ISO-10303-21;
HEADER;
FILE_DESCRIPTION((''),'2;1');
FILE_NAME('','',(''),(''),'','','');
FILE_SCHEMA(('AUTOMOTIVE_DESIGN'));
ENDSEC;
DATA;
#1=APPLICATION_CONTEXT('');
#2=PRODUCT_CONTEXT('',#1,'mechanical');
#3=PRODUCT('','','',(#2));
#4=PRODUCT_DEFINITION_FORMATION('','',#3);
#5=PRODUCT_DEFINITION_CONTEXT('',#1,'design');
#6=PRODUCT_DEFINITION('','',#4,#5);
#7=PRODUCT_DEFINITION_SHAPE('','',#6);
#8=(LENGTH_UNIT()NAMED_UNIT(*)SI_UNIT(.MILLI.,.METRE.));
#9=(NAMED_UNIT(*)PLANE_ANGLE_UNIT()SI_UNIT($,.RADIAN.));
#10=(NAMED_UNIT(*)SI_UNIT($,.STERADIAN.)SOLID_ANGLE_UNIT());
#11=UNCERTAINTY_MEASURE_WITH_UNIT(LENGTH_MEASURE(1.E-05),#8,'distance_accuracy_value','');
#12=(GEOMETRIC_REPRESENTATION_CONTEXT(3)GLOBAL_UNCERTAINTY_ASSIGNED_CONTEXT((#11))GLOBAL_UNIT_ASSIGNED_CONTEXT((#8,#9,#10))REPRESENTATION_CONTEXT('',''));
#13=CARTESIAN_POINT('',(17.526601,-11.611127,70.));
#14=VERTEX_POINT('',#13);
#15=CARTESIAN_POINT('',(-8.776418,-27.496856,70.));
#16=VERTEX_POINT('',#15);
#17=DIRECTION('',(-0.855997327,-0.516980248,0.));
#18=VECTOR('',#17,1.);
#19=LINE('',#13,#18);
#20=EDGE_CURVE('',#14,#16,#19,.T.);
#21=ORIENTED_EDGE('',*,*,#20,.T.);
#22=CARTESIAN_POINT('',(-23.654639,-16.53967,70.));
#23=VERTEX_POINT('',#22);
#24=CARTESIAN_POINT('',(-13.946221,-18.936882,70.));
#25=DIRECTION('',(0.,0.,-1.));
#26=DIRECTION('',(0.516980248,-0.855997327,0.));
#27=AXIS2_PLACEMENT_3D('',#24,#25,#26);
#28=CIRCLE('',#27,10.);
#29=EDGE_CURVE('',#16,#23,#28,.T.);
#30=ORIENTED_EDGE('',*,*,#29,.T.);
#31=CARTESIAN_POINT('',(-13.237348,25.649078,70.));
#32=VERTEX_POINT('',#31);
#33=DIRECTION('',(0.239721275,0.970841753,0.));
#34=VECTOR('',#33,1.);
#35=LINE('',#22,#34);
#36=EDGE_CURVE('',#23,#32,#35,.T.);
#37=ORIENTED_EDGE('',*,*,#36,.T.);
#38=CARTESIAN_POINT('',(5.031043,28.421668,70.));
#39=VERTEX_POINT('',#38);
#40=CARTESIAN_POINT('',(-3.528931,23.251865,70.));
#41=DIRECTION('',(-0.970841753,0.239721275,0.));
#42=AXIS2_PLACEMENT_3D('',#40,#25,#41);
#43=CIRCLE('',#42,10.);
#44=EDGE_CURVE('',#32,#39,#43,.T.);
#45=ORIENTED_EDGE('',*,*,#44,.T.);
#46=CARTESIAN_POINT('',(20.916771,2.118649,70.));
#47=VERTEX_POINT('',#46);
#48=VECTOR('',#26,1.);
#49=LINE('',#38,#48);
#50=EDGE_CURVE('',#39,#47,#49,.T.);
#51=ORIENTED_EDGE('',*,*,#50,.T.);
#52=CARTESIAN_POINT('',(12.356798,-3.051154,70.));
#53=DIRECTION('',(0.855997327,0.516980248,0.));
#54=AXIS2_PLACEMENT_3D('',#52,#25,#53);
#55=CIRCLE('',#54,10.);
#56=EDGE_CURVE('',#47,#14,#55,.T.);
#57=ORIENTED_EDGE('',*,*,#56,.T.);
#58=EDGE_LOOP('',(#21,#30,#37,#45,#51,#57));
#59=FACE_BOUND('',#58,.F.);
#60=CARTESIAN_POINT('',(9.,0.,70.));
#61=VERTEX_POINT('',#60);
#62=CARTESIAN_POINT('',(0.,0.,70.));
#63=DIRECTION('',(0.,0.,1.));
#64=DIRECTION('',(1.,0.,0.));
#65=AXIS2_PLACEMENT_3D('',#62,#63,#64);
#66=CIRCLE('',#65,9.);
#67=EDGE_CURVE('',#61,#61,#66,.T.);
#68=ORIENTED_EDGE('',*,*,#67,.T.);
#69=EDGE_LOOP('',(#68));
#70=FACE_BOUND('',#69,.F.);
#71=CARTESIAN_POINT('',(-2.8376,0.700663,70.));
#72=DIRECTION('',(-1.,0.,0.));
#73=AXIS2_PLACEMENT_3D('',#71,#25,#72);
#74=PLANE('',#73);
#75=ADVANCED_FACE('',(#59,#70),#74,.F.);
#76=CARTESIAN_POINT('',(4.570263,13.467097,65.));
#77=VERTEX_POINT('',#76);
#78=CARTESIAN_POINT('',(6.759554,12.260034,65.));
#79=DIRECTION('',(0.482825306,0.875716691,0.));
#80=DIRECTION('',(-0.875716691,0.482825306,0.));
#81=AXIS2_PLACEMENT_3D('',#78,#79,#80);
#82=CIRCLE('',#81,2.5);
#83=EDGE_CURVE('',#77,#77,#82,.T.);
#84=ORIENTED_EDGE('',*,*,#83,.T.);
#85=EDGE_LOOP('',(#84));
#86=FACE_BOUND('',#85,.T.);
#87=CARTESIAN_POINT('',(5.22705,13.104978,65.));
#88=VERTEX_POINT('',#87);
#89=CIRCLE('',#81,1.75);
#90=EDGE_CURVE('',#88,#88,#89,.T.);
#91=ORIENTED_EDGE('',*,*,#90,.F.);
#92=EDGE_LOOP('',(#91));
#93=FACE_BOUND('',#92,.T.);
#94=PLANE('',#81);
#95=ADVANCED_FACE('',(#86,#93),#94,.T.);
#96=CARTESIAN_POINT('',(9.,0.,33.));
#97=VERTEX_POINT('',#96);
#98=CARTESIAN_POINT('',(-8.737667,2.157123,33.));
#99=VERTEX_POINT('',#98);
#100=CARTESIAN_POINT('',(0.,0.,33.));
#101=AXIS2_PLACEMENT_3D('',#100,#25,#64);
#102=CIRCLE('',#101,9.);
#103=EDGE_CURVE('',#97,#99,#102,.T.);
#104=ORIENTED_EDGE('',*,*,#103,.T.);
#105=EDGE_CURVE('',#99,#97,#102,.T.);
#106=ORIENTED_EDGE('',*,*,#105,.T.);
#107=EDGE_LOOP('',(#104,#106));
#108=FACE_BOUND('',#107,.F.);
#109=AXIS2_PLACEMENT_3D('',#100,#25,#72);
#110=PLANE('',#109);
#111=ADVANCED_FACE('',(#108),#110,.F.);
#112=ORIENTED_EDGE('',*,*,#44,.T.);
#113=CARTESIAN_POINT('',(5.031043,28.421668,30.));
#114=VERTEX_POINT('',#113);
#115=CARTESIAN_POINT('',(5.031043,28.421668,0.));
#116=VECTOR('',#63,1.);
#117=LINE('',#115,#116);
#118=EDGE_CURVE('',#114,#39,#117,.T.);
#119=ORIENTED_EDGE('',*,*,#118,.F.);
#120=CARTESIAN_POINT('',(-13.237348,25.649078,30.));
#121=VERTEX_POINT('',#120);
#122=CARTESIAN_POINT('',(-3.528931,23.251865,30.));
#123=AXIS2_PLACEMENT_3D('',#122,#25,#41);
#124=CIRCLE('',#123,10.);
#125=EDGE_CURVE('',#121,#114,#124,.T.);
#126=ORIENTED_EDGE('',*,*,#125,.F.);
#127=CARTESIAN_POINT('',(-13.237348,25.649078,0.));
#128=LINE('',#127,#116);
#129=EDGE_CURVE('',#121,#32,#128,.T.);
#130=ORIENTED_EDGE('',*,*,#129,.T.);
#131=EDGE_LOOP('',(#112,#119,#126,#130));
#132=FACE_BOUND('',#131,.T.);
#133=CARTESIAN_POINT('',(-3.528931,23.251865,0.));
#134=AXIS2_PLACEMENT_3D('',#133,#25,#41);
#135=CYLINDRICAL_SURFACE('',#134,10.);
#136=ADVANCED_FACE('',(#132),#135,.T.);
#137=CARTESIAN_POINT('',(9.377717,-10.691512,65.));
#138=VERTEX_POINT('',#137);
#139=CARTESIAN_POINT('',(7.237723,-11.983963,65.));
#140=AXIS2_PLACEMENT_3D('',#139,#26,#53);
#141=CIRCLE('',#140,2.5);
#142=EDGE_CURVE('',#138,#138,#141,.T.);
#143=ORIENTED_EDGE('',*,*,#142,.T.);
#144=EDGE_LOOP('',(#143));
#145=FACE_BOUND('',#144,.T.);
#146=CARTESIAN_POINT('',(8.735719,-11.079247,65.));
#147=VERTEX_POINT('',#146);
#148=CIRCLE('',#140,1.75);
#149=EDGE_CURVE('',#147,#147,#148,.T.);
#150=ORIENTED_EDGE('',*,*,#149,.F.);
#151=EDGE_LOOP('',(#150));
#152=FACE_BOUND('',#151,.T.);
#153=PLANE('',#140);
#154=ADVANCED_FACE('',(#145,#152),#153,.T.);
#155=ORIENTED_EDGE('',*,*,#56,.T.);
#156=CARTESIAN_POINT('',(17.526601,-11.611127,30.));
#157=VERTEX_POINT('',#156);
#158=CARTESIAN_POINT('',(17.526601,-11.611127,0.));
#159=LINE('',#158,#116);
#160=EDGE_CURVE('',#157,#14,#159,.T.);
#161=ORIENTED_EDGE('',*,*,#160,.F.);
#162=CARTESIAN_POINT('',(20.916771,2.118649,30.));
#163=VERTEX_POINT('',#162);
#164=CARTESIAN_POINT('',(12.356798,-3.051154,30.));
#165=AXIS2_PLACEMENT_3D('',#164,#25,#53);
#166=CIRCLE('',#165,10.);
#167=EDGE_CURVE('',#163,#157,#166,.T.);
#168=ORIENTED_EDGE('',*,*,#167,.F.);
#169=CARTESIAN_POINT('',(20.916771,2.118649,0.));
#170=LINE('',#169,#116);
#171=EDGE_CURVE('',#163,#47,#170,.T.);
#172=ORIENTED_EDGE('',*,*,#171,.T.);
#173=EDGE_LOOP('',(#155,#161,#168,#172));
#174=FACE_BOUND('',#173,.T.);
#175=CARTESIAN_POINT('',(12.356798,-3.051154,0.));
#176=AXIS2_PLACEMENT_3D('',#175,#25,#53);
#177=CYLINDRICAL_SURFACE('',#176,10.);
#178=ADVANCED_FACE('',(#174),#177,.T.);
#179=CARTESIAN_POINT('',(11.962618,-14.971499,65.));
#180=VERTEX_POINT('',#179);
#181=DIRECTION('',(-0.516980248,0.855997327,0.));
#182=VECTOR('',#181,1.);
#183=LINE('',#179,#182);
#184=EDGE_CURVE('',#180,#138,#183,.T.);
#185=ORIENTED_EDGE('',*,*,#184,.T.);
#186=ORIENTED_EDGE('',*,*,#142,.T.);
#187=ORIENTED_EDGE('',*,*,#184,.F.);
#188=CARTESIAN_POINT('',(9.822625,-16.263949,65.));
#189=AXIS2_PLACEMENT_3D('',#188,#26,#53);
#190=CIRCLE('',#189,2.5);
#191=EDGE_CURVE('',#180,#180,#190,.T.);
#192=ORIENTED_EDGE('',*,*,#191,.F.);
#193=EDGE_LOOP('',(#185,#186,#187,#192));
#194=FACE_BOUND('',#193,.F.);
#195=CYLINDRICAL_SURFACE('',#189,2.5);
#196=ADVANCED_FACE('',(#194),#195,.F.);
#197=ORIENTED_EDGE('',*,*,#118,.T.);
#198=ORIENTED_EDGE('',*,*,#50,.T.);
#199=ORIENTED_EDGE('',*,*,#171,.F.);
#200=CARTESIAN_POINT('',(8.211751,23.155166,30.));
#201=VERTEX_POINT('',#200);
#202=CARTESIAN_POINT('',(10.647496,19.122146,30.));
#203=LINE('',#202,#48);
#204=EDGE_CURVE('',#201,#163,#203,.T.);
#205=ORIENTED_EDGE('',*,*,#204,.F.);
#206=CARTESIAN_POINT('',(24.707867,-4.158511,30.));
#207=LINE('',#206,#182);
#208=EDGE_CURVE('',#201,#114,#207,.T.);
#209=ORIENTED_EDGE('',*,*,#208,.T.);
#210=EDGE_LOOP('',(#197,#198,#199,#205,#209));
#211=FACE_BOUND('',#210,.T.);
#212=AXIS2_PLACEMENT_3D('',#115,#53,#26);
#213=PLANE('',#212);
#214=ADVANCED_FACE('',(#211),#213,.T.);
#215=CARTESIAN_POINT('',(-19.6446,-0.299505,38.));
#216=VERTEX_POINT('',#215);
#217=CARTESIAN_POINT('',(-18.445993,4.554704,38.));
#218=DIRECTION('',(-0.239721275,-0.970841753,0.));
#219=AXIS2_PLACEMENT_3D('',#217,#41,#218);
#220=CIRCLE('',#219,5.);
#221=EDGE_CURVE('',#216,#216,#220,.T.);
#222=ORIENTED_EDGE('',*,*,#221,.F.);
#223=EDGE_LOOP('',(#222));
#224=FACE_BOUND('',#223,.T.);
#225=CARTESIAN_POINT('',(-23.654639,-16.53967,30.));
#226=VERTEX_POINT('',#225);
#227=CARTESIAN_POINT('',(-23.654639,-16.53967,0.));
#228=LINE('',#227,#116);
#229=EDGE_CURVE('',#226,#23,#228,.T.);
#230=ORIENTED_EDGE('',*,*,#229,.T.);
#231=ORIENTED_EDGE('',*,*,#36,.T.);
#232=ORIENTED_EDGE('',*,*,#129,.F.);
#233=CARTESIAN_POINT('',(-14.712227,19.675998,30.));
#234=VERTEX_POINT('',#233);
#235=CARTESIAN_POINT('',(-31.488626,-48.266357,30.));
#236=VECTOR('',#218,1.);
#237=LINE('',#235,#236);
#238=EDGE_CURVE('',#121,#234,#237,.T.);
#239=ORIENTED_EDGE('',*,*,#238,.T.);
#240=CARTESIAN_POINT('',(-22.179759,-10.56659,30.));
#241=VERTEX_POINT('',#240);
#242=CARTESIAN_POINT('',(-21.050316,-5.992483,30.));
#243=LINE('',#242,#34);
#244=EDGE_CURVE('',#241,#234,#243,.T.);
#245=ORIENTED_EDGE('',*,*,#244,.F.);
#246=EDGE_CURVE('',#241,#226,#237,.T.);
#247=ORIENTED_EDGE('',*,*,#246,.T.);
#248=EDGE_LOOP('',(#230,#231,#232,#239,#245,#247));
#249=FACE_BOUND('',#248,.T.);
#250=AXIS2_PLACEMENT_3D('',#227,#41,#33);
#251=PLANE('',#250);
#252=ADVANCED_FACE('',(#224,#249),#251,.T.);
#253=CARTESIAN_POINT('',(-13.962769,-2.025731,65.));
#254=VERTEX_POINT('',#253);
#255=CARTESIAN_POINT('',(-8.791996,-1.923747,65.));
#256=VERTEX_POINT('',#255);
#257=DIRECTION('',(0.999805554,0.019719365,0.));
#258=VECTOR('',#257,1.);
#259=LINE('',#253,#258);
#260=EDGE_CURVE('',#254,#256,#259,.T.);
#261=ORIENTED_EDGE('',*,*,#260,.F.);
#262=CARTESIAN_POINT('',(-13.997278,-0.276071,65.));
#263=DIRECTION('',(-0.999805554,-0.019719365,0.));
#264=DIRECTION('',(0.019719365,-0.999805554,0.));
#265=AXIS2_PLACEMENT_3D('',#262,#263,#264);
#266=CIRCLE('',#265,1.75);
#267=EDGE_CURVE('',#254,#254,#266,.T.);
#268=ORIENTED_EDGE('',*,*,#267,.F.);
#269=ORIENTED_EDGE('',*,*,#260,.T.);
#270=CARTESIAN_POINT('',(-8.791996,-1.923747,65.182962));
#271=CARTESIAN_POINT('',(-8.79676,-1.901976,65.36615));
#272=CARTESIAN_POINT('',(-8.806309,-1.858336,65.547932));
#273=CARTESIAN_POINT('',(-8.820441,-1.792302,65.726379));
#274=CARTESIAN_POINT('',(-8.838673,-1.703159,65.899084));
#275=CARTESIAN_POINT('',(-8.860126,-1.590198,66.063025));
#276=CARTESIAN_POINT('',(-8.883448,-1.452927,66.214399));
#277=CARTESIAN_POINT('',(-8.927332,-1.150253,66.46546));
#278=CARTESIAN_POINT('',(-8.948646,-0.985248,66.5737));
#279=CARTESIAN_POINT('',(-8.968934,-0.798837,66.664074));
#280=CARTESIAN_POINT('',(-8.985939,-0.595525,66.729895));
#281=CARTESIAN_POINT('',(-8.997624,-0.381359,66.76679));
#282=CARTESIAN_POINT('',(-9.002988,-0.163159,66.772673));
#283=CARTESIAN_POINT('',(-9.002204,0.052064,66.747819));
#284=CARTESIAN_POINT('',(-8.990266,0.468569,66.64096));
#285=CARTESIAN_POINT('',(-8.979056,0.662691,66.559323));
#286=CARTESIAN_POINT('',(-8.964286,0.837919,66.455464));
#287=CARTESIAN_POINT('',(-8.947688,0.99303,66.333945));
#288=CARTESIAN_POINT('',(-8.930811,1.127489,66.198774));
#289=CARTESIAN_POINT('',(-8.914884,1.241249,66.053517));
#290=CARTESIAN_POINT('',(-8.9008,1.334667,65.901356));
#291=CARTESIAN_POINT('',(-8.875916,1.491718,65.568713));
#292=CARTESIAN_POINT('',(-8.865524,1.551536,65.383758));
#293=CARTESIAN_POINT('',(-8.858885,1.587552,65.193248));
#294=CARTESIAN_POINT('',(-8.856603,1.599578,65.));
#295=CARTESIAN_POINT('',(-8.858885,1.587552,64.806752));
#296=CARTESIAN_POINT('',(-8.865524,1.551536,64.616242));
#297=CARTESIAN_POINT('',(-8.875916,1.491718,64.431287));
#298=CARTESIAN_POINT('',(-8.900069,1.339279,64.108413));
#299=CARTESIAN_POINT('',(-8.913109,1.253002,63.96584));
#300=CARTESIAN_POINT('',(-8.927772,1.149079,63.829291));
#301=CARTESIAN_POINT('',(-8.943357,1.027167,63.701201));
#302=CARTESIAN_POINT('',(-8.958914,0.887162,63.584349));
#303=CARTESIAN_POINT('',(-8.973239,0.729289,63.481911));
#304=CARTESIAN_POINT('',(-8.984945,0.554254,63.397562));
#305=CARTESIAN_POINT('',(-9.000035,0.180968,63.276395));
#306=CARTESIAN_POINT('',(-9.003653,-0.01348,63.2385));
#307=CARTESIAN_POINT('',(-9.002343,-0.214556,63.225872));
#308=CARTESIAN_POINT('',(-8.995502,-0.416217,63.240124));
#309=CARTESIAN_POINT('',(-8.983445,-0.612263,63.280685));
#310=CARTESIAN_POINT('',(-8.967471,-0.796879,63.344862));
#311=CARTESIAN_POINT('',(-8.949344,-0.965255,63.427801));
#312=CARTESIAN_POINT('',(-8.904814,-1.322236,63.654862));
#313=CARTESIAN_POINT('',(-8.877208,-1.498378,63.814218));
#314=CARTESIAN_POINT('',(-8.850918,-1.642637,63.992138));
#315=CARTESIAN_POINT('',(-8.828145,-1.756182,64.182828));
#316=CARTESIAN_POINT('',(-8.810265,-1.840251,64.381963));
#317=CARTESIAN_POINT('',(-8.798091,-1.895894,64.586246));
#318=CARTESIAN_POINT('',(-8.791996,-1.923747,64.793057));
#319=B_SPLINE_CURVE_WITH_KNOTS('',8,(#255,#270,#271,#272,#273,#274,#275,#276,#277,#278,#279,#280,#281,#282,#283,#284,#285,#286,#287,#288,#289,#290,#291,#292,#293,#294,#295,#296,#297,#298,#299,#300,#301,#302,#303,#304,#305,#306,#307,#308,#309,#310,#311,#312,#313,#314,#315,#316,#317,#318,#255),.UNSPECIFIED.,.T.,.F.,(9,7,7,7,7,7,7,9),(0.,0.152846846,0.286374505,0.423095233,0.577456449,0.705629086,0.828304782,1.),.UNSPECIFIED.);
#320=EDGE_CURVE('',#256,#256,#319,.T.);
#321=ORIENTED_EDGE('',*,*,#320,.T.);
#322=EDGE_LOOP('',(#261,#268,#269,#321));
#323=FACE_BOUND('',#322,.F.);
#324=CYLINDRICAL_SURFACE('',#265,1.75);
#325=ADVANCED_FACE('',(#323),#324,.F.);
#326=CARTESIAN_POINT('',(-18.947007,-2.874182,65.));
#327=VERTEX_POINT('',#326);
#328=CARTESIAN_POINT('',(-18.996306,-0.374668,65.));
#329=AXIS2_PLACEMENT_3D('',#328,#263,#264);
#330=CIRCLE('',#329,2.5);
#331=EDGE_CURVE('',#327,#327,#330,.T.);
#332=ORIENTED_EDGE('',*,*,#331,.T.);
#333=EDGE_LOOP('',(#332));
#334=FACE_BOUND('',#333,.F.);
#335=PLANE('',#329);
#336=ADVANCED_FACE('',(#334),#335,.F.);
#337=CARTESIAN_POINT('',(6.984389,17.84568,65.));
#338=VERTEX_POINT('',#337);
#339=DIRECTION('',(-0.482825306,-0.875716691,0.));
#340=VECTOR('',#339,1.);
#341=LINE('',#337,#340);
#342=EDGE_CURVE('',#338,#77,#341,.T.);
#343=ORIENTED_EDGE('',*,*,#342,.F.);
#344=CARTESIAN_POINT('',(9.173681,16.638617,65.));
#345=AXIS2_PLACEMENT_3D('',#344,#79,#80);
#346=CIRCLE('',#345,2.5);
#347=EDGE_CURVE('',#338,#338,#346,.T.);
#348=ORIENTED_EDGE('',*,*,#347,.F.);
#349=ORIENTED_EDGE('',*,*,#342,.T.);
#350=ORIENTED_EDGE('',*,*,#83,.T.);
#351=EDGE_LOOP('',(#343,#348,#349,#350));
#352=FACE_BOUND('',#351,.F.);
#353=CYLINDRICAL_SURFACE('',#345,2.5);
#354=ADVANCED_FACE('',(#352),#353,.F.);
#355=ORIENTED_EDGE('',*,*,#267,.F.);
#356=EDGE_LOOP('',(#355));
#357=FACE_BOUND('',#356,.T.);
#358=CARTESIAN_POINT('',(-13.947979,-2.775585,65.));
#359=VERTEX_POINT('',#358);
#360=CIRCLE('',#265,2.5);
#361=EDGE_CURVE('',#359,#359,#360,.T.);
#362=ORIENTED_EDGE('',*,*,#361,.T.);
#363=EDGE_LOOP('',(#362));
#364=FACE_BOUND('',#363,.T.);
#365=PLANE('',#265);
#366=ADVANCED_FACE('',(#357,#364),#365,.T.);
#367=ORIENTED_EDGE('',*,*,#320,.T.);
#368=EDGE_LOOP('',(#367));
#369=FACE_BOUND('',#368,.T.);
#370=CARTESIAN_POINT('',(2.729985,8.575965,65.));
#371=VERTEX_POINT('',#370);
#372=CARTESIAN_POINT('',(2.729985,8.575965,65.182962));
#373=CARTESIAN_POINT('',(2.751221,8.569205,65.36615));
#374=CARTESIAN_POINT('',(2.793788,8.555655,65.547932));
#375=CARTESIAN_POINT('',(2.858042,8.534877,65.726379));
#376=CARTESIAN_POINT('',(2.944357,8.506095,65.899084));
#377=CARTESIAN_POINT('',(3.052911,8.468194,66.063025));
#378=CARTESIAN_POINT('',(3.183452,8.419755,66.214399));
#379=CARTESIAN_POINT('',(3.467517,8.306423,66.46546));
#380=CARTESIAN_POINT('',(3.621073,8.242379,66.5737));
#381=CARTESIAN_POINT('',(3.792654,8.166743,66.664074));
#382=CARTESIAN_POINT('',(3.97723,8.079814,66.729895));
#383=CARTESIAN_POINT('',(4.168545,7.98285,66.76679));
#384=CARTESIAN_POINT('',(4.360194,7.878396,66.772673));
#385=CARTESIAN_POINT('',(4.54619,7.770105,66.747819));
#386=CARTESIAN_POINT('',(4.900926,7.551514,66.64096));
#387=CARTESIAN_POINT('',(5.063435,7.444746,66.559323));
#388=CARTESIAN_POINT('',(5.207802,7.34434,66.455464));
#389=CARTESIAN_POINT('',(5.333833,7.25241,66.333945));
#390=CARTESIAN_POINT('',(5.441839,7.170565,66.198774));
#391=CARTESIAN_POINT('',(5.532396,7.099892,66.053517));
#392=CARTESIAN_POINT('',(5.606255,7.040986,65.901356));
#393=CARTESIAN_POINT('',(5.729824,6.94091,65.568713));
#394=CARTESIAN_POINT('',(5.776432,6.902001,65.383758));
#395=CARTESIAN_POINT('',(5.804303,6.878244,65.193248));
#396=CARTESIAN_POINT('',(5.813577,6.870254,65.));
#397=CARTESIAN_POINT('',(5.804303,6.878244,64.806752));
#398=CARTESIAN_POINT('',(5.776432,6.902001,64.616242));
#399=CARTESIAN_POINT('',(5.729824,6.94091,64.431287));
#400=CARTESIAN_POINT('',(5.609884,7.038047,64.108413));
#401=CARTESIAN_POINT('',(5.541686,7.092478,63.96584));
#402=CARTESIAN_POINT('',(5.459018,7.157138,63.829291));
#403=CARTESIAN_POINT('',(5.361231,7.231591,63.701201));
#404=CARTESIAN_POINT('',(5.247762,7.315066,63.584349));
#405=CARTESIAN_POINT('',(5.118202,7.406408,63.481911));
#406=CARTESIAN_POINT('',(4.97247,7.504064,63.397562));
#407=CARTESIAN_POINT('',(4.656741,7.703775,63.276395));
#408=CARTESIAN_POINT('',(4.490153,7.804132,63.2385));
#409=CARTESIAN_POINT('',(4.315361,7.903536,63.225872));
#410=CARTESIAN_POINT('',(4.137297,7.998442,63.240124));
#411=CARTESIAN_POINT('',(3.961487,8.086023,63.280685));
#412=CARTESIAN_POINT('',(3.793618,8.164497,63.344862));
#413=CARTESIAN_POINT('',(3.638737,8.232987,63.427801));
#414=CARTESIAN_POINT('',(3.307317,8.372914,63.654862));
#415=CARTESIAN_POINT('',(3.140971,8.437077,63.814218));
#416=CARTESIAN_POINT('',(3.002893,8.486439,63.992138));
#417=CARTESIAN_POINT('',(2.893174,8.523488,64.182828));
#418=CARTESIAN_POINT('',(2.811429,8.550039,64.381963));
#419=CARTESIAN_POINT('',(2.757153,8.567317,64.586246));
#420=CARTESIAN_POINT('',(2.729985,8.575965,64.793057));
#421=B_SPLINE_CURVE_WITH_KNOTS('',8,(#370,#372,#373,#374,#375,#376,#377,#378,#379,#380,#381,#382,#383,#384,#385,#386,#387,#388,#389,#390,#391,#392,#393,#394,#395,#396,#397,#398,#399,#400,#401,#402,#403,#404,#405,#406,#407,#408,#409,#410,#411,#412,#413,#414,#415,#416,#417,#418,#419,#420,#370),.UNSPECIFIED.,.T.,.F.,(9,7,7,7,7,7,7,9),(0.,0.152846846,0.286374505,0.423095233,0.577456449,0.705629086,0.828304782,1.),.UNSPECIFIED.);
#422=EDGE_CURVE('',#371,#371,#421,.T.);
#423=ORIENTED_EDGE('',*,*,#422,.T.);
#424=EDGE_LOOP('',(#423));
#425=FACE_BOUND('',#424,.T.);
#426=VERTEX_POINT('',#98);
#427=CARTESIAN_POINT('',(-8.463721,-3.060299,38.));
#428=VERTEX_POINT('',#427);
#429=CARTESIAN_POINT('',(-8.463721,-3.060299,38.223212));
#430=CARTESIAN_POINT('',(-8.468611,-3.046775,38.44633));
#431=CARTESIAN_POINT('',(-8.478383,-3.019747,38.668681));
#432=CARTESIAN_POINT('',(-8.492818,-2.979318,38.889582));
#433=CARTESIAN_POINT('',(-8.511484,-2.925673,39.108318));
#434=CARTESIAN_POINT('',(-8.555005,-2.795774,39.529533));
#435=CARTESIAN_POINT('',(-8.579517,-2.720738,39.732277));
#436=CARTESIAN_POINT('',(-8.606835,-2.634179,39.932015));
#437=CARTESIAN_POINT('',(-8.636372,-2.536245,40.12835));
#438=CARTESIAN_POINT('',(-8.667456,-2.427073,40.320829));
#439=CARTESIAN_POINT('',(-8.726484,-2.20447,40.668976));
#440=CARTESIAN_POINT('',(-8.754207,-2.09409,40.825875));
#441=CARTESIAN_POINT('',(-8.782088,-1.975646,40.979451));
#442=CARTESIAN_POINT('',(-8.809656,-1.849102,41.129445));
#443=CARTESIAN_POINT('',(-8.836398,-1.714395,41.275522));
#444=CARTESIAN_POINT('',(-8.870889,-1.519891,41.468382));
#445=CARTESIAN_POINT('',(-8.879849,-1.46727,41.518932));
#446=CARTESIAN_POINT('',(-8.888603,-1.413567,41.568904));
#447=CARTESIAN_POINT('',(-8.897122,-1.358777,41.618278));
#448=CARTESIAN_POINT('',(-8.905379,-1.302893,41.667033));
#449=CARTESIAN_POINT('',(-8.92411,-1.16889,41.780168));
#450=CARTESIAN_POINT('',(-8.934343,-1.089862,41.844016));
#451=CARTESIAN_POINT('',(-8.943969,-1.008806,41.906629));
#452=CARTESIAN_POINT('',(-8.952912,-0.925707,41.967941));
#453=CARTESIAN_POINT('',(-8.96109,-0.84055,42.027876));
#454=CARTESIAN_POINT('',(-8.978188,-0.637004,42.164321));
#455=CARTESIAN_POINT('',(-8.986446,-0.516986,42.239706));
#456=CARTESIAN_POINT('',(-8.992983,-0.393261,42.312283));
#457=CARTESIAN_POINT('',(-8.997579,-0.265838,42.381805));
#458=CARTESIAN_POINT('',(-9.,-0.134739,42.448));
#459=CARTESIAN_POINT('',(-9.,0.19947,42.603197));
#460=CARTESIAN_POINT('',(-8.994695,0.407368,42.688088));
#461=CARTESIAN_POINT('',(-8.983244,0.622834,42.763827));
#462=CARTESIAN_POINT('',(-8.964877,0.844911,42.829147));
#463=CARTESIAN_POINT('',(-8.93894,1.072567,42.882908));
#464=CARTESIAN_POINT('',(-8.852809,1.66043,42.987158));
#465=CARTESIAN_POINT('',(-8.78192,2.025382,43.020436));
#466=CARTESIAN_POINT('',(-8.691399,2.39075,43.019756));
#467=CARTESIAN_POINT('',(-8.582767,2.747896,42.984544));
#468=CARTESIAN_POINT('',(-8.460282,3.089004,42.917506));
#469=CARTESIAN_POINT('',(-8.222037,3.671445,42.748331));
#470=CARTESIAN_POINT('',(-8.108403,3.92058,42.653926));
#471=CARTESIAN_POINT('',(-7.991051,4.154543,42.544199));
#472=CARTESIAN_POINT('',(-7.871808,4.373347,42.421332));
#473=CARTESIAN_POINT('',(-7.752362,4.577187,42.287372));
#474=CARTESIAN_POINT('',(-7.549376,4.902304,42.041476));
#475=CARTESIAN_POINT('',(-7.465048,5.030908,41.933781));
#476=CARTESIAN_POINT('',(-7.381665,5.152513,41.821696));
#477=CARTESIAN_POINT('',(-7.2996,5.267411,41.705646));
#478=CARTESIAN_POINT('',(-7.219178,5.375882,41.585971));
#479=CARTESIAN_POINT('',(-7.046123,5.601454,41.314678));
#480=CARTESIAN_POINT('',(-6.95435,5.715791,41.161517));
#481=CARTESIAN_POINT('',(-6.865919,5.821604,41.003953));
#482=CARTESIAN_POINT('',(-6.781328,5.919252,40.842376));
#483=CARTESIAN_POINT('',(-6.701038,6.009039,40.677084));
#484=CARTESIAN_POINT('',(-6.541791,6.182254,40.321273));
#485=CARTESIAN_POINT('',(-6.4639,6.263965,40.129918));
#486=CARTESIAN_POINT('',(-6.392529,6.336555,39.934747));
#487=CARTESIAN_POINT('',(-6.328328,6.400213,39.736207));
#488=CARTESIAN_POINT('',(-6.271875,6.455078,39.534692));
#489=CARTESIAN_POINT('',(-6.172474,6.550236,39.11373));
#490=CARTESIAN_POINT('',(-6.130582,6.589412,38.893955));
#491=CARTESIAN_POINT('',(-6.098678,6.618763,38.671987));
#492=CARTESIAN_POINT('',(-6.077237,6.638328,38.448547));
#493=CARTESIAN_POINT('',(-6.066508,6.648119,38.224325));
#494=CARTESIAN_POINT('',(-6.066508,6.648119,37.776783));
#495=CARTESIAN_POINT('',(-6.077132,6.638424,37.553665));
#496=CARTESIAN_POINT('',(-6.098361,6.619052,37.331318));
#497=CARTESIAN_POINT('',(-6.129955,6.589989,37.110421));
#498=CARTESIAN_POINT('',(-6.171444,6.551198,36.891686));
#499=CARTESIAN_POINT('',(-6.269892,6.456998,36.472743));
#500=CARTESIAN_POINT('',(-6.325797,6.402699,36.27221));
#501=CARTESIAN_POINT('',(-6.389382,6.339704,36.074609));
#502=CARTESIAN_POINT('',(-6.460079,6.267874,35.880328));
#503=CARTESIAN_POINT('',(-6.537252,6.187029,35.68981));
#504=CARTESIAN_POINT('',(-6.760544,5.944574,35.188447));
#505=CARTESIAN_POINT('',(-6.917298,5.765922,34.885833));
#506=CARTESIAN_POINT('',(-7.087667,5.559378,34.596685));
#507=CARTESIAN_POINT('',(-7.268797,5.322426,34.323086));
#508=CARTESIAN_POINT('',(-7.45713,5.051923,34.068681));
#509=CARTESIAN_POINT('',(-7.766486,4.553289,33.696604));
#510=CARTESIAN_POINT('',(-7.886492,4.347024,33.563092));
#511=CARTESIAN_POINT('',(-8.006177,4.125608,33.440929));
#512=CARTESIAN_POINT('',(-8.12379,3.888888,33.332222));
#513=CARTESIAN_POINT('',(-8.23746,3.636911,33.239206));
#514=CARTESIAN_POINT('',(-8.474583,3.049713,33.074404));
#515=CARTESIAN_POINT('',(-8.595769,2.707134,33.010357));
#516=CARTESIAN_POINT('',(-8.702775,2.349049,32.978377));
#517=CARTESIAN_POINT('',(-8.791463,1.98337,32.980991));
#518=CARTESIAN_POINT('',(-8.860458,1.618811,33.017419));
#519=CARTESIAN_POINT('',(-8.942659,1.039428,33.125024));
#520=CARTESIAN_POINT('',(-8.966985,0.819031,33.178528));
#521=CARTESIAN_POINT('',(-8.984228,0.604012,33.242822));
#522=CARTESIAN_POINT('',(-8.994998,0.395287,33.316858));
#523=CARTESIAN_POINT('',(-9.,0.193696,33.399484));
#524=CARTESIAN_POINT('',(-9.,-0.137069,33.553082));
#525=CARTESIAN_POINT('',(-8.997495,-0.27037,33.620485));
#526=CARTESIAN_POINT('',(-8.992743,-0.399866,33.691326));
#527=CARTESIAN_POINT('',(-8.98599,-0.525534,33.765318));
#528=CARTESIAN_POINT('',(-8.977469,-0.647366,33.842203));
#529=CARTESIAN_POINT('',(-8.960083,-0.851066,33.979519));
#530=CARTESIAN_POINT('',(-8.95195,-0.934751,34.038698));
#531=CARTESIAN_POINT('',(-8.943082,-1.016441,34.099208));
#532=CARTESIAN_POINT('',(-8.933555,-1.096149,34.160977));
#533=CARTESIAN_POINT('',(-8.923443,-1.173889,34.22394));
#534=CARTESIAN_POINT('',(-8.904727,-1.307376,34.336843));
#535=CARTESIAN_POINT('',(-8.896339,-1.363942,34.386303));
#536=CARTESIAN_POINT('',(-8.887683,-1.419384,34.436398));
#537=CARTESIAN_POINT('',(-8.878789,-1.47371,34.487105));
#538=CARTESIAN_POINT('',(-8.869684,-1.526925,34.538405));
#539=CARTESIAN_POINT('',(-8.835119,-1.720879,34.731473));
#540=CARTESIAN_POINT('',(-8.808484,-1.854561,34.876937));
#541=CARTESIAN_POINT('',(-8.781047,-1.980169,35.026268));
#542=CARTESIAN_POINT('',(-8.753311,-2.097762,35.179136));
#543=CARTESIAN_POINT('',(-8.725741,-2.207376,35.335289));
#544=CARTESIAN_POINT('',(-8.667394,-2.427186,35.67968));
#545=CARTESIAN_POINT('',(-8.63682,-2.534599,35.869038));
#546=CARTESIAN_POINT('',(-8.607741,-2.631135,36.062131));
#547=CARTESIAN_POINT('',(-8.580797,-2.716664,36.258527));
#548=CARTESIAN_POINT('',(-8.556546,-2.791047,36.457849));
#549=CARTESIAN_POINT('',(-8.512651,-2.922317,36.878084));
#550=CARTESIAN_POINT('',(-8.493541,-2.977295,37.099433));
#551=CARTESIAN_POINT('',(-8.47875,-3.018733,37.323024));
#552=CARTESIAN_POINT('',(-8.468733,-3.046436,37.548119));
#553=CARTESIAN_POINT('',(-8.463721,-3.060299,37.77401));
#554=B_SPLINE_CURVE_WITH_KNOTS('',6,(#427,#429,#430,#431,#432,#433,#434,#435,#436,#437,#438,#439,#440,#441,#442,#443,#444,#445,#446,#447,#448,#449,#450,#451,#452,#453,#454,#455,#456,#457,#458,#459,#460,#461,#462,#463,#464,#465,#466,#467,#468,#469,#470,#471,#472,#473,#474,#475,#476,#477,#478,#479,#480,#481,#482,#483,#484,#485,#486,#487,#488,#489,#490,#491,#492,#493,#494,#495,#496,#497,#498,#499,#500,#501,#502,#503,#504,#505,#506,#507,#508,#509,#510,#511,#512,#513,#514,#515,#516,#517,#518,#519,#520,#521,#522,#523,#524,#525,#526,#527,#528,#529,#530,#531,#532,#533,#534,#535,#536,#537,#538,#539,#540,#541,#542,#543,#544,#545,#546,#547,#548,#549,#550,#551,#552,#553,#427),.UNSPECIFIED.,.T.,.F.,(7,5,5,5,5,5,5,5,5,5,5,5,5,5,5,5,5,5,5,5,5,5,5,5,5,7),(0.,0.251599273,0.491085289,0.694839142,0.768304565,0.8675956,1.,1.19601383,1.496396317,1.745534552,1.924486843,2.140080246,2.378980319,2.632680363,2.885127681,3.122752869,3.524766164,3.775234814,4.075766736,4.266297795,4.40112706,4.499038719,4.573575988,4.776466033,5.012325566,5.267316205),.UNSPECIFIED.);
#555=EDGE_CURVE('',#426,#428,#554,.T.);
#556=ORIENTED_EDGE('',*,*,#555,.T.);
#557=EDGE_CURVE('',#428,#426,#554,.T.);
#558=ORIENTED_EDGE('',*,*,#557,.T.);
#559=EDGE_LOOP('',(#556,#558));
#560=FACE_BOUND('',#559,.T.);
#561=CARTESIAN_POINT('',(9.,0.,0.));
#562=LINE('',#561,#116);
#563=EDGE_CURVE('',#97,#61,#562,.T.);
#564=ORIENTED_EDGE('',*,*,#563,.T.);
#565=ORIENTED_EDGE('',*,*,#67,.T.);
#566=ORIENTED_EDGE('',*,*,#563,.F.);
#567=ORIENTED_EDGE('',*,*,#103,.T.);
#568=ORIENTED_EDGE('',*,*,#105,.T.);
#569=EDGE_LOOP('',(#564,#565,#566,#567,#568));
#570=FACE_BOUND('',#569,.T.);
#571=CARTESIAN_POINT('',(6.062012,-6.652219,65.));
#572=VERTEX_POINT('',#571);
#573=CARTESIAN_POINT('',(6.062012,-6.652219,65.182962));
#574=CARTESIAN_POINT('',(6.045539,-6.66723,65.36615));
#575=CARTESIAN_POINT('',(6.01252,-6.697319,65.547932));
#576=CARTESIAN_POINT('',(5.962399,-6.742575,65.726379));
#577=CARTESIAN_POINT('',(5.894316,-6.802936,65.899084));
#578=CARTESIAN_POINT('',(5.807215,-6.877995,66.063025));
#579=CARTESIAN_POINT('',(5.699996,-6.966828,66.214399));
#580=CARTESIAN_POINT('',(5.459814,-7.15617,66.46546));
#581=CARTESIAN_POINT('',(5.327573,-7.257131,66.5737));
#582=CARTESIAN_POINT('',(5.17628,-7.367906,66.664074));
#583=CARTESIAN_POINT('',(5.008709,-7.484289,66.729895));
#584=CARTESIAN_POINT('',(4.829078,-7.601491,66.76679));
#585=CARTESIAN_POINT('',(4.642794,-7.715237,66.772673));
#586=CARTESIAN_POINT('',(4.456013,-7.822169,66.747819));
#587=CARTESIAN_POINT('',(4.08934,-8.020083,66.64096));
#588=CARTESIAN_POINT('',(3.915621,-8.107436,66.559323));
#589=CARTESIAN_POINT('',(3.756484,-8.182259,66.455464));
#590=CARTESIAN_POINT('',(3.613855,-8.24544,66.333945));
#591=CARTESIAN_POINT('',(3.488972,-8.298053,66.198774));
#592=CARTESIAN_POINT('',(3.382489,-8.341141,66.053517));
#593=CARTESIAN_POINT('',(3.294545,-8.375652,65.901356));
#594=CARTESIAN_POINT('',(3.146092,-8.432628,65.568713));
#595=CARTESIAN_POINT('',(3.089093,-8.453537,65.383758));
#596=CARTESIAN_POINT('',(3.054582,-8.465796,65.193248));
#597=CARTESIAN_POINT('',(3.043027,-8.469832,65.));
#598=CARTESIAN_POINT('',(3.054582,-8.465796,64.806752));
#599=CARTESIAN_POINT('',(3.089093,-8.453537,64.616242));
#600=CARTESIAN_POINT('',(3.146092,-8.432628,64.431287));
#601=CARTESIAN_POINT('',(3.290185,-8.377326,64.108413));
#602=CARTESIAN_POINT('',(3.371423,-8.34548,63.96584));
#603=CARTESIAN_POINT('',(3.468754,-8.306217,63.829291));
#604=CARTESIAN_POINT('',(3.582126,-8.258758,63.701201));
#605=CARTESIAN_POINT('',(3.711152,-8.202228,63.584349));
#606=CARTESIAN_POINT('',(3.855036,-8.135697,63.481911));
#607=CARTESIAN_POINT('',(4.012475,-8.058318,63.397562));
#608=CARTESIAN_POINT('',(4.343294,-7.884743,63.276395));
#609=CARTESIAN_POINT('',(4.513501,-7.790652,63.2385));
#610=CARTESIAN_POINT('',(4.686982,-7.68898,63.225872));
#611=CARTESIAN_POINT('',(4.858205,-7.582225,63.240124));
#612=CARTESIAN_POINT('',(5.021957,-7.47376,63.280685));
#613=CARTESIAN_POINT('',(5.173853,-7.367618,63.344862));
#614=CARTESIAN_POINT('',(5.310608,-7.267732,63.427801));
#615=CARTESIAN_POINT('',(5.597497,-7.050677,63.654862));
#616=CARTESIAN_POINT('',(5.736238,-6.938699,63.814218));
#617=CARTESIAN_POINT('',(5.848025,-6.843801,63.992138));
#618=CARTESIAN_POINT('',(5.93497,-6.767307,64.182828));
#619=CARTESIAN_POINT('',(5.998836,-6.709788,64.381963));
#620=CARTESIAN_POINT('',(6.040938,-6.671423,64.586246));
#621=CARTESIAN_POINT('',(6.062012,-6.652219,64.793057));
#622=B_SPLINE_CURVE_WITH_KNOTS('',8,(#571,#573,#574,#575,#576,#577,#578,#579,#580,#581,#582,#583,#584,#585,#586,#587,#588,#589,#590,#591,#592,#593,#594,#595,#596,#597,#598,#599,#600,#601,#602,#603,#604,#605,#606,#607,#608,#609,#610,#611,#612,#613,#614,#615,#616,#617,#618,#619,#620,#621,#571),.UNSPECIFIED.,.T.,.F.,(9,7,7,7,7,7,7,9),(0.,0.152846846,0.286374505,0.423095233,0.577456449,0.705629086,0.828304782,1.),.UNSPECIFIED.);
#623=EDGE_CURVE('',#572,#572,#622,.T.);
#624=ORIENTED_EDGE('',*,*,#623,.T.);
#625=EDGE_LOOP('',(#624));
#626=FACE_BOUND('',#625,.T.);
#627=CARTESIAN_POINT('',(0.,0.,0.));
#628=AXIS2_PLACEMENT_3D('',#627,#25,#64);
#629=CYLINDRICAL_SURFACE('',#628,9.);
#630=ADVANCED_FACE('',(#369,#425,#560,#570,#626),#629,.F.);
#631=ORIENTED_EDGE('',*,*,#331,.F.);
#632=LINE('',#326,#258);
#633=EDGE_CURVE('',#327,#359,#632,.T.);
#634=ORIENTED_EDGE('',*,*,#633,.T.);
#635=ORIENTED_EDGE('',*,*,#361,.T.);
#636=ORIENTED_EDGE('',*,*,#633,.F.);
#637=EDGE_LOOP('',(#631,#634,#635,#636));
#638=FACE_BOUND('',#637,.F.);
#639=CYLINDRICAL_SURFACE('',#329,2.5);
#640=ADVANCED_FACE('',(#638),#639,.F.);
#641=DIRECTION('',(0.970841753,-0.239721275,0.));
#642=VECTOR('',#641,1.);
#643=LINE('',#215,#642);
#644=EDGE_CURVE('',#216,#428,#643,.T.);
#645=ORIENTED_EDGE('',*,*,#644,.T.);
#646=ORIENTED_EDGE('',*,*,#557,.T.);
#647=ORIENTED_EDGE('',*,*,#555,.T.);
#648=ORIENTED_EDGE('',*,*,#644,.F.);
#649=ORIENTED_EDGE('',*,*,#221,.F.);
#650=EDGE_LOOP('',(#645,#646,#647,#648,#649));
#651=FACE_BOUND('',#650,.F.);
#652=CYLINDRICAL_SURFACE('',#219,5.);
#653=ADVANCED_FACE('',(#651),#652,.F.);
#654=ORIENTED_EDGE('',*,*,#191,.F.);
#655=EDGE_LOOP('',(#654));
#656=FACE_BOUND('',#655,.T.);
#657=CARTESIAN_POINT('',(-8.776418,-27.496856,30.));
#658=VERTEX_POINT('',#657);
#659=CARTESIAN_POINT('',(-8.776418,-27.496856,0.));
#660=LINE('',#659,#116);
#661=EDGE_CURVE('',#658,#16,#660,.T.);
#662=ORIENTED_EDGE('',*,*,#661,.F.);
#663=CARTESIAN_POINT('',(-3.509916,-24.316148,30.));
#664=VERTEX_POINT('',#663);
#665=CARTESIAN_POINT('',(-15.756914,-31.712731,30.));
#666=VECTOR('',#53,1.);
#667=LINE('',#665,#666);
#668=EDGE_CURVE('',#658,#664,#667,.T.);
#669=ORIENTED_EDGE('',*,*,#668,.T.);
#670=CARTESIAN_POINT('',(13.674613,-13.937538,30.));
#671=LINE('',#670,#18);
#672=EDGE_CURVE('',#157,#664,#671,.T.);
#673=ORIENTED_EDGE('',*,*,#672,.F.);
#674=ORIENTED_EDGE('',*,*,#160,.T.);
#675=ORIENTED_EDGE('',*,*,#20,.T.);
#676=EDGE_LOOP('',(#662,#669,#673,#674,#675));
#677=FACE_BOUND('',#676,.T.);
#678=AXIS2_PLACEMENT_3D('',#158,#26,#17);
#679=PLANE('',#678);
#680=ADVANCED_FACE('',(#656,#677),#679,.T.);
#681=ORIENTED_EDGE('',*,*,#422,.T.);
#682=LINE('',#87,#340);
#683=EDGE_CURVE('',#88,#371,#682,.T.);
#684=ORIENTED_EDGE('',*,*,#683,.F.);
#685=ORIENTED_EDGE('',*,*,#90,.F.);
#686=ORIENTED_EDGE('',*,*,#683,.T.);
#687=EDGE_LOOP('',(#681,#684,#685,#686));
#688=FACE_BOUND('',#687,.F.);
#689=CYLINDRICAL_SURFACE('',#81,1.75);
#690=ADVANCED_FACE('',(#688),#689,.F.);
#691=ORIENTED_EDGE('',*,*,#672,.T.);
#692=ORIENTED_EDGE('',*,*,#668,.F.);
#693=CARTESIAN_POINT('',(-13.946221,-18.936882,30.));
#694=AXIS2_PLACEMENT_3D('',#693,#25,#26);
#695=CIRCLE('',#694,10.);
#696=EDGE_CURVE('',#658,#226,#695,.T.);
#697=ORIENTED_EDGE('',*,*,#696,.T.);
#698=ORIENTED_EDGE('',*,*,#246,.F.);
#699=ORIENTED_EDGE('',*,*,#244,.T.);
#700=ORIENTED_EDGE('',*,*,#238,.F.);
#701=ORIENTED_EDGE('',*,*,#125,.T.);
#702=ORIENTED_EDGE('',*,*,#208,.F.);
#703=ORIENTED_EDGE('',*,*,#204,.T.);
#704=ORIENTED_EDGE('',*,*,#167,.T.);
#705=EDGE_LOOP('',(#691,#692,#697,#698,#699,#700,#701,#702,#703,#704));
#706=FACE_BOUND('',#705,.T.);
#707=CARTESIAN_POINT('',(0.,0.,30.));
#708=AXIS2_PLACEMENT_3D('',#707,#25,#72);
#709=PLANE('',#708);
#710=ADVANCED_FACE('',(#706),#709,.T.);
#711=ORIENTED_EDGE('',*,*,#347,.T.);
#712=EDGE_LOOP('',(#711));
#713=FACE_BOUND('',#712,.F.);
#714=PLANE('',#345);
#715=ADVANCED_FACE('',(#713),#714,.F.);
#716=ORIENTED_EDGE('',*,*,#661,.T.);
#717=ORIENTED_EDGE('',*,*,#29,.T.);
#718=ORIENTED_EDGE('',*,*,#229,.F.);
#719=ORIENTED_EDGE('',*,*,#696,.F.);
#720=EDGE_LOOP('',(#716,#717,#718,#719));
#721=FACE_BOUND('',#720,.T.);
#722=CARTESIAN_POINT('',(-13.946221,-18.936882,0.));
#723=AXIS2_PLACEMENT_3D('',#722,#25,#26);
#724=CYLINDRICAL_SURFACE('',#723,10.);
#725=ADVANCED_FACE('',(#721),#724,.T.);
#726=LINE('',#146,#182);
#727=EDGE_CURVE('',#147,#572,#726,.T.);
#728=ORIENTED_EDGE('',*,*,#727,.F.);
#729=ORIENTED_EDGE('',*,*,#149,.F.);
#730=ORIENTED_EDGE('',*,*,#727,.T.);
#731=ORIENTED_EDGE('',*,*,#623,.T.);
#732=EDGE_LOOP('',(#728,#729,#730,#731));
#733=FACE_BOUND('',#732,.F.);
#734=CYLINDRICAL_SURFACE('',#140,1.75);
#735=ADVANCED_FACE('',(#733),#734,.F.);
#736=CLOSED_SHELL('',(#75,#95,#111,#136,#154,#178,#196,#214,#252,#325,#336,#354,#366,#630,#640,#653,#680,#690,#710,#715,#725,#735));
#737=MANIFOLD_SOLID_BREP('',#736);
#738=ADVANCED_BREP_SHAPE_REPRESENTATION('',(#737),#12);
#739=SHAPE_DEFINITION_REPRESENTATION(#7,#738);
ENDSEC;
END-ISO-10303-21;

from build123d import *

# Parameters (mm, degrees)
SKETCH1_R               = 9
BOSS_EXTRUDE1_DEPTH     = 70
SKETCH2_R               = 2.5
CUT_EXTRUDE1_DEPTH      = 5
CUT_EXTRUDE2_REACH      = 90.987
CUT_EXTRUDE2_END_RADIUS = 9
SKETCH3_R               = 1.75
CIRPATTERN1_COUNT       = 3
SKETCH5_W               = 24.568161226
SKETCH5_H               = 25
SKETCH6_R               = 9
BOSS_EXTRUDE2_DEPTH     = 5
SKETCH8_R               = 9
BOSS_EXTRUDE3_DEPTH     = 3
CUT_EXTRUDE3_REACH      = 83.112
SKETCH9_R               = 1.875
SKETCH11_R              = 4
CUT_EXTRUDE4_DEPTH      = 3
CUT_EXTRUDE5_DEPTH      = 82.111701173
CUT_EXTRUDE5_DEPTH_BACK = 82.111701173
SKETCH12_W              = 65.170629785
SKETCH12_H              = 33.219663289
CUT_EXTRUDE6_REACH      = 89.673
CUT_EXTRUDE6_END_RADIUS = 9
SKETCH13_R              = 5


with BuildPart() as part:
    # Sketch1 → Boss-Extrude1 (new body)
    with BuildSketch(Plane.XY):
        with BuildLine():
            Line((-23.6546385, -16.539669722), (-13.23734813, 25.649078182))
            ThreePointArc((-13.23734813, 25.649078182), (-5.029445343, 33.138647287), (5.031042671, 28.421667909))
            Line((5.031042671, 28.421667909), (20.916771438, 2.118648772))
            ThreePointArc((20.916771438, 2.118648772), (22.065215706, -5.448366461), (17.526600651, -11.611126974))
            Line((17.526600651, -11.611126974), (-8.776418486, -27.496855741))
            ThreePointArc((-8.776418486, -27.496855741), (-19.876207308, -26.988917124), (-23.6546385, -16.539669722))
        make_face()
        Circle(SKETCH1_R, mode=Mode.SUBTRACT)
    extrude(amount=BOSS_EXTRUDE1_DEPTH)

    # Sketch2 → Cut-Extrude1 (cut)
    with BuildSketch(Plane(origin=(9.822624711, -16.263949206, 0), x_dir=(0.8559973266359324, 0.5169802479709809, 0), z_dir=(0.5169802479709809, -0.8559973266359324, 0))):
        with Locations((0, 65)):
            Circle(SKETCH2_R)
    cut_extrude1 = extrude(amount=-CUT_EXTRUDE1_DEPTH, mode=Mode.SUBTRACT)

    # Cut-Extrude2: up to this cylinder (the profile starts outside it)
    cut_extrude2_end = Plane(origin=(0, 0, 65), z_dir=(0, 0, -1)) * Cylinder(CUT_EXTRUDE2_END_RADIUS, 200.974, mode=Mode.PRIVATE)
    # Sketch3 → Cut-Extrude2 (cut, up to the surface)
    with BuildSketch(Plane(origin=(7.237723472, -11.983962573, 0), x_dir=(0.8559973266359324, 0.5169802479709809, 0), z_dir=(0.5169802479709809, -0.8559973266359324, 0)), mode=Mode.PRIVATE) as cut_extrude2_sk1:
        with Locations((0, 65)):
            Circle(SKETCH3_R)
    cut_extrude2_tool1 = extrude(cut_extrude2_sk1.sketch, amount=-CUT_EXTRUDE2_REACH, mode=Mode.PRIVATE) - cut_extrude2_end
    cut_extrude2 = cut_extrude2_tool1.solids().sort_by_distance((7.237723, -11.983963, 65))[0]
    add(cut_extrude2, mode=Mode.SUBTRACT)

    # CirPattern1: Cut-Extrude1, Cut-Extrude2 ×3 about axis
    cirpattern1_axis = Axis((0, 0, 0), (0, 0, 1))
    add([cut_extrude1.rotate(cirpattern1_axis, i * 360 / CIRPATTERN1_COUNT) for i in range(1, CIRPATTERN1_COUNT)], mode=Mode.SUBTRACT)
    add([cut_extrude2.rotate(cirpattern1_axis, i * 360 / CIRPATTERN1_COUNT) for i in range(1, CIRPATTERN1_COUNT)], mode=Mode.SUBTRACT)

    # Sketch5 → Cut-Revolve1 (revolve, cut)
    with BuildSketch(Plane(origin=(0, 0, 0), x_dir=(1, 0, 0), z_dir=(0, 1, 0)), mode=Mode.PRIVATE) as cut_revolve1_sk:
        with Locations((-12.284080613, -17.5)):
            Rectangle(SKETCH5_W, SKETCH5_H)
    revolve(cut_revolve1_sk.sketch.rotate(Axis((0, 0, 0), (0, 0, 1)), 180), axis=Axis((0, 0, 0), (0, 0, 1)), mode=Mode.SUBTRACT)

    # Sketch6 → Boss-Extrude2 (add)
    with BuildSketch(Plane(origin=(0, 0, 0), x_dir=(-1, 0, 0), z_dir=(0, 0, -1))):
        with Locations(Location((0, 0, 0), (0, 0, 180))):
            Circle(SKETCH6_R)
    extrude(amount=-BOSS_EXTRUDE2_DEPTH)

    # Sketch8 → Boss-Extrude3 (add)
    with BuildSketch(Plane(origin=(0, 0, 30), x_dir=(-1, 0, 0), z_dir=(0, 0, -1))):
        Circle(SKETCH8_R)
    extrude(amount=-BOSS_EXTRUDE3_DEPTH)

    # Sketch9 → Cut-Extrude3 (cut, up to next)
    with BuildSketch(Plane(origin=(0, 0, 0), x_dir=(-1, 0, 0), z_dir=(0, 0, -1)), mode=Mode.PRIVATE) as cut_extrude3_sk1:
        with Locations((0, 8)):
            Circle(SKETCH9_R)
    cut_extrude3_tool1 = extrude(cut_extrude3_sk1.sketch, amount=-CUT_EXTRUDE3_REACH, mode=Mode.PRIVATE) & part.part
    # Sketch9 → Cut-Extrude3 (cut, up to next)
    with BuildSketch(Plane(origin=(0, 0, 0), x_dir=(-1, 0, 0), z_dir=(0, 0, -1)), mode=Mode.PRIVATE) as cut_extrude3_sk2:
        with Locations((8, 0)):
            Circle(SKETCH9_R)
    cut_extrude3_tool2 = extrude(cut_extrude3_sk2.sketch, amount=-CUT_EXTRUDE3_REACH, mode=Mode.PRIVATE) & part.part
    # Sketch9 → Cut-Extrude3 (cut, up to next)
    with BuildSketch(Plane(origin=(0, 0, 0), x_dir=(-1, 0, 0), z_dir=(0, 0, -1)), mode=Mode.PRIVATE) as cut_extrude3_sk3:
        with Locations((0, -8)):
            Circle(SKETCH9_R)
    cut_extrude3_tool3 = extrude(cut_extrude3_sk3.sketch, amount=-CUT_EXTRUDE3_REACH, mode=Mode.PRIVATE) & part.part
    # Sketch9 → Cut-Extrude3 (cut, up to next)
    with BuildSketch(Plane(origin=(0, 0, 0), x_dir=(-1, 0, 0), z_dir=(0, 0, -1)), mode=Mode.PRIVATE) as cut_extrude3_sk4:
        with Locations((-8, 0)):
            Circle(SKETCH9_R)
    cut_extrude3_tool4 = extrude(cut_extrude3_sk4.sketch, amount=-CUT_EXTRUDE3_REACH, mode=Mode.PRIVATE) & part.part
    add(cut_extrude3_tool1.solids().sort_by_distance((0, 8, 0))[0], mode=Mode.SUBTRACT)
    add(cut_extrude3_tool2.solids().sort_by_distance((-8, 0, 0))[0], mode=Mode.SUBTRACT)
    add(cut_extrude3_tool3.solids().sort_by_distance((0, -8, 0))[0], mode=Mode.SUBTRACT)
    add(cut_extrude3_tool4.solids().sort_by_distance((8, 0, 0))[0], mode=Mode.SUBTRACT)

    # Sketch11 → Cut-Extrude4 (cut)
    with BuildSketch(Plane(origin=(0, 0, 0), x_dir=(-1, 0, 0), z_dir=(0, 0, -1))):
        Circle(SKETCH11_R)
    extrude(amount=-CUT_EXTRUDE4_DEPTH, mode=Mode.SUBTRACT)

    # Sketch12 → Cut-Extrude5 (cut, two sides: drawn at the far end of the back side and taken through both)
    with BuildSketch(Plane(origin=(0, 0, 0), x_dir=(1, 0, 0), z_dir=(0, 1, 0)).offset(-CUT_EXTRUDE5_DEPTH_BACK)):
        with Locations((1.843004816, -13.390168356)):
            Rectangle(SKETCH12_W, SKETCH12_H)
    extrude(amount=CUT_EXTRUDE5_DEPTH + CUT_EXTRUDE5_DEPTH_BACK, mode=Mode.SUBTRACT)

    # Cut-Extrude6: up to this cylinder (the profile starts outside it)
    cut_extrude6_end = Plane(origin=(0, 0, 38), z_dir=(0, 0, -1)) * Cylinder(CUT_EXTRUDE6_END_RADIUS, 198.346, mode=Mode.PRIVATE)
    # Sketch13 → Cut-Extrude6 (cut, up to the surface)
    with BuildSketch(Plane(origin=(-18.445993315, 4.55470423, 0), x_dir=(0, 0, 1), z_dir=(-0.9708417534216062, 0.23972127526204579, 0)), mode=Mode.PRIVATE) as cut_extrude6_sk1:
        with Locations(Location((38, 0, 0), (0, 0, 270))):
            Circle(SKETCH13_R)
    cut_extrude6_tool1 = extrude(cut_extrude6_sk1.sketch, amount=-CUT_EXTRUDE6_REACH, mode=Mode.PRIVATE) - cut_extrude6_end
    add(cut_extrude6_tool1.solids().sort_by_distance((-18.445993, 4.554704, 38))[0], mode=Mode.SUBTRACT)


solid = part.part
